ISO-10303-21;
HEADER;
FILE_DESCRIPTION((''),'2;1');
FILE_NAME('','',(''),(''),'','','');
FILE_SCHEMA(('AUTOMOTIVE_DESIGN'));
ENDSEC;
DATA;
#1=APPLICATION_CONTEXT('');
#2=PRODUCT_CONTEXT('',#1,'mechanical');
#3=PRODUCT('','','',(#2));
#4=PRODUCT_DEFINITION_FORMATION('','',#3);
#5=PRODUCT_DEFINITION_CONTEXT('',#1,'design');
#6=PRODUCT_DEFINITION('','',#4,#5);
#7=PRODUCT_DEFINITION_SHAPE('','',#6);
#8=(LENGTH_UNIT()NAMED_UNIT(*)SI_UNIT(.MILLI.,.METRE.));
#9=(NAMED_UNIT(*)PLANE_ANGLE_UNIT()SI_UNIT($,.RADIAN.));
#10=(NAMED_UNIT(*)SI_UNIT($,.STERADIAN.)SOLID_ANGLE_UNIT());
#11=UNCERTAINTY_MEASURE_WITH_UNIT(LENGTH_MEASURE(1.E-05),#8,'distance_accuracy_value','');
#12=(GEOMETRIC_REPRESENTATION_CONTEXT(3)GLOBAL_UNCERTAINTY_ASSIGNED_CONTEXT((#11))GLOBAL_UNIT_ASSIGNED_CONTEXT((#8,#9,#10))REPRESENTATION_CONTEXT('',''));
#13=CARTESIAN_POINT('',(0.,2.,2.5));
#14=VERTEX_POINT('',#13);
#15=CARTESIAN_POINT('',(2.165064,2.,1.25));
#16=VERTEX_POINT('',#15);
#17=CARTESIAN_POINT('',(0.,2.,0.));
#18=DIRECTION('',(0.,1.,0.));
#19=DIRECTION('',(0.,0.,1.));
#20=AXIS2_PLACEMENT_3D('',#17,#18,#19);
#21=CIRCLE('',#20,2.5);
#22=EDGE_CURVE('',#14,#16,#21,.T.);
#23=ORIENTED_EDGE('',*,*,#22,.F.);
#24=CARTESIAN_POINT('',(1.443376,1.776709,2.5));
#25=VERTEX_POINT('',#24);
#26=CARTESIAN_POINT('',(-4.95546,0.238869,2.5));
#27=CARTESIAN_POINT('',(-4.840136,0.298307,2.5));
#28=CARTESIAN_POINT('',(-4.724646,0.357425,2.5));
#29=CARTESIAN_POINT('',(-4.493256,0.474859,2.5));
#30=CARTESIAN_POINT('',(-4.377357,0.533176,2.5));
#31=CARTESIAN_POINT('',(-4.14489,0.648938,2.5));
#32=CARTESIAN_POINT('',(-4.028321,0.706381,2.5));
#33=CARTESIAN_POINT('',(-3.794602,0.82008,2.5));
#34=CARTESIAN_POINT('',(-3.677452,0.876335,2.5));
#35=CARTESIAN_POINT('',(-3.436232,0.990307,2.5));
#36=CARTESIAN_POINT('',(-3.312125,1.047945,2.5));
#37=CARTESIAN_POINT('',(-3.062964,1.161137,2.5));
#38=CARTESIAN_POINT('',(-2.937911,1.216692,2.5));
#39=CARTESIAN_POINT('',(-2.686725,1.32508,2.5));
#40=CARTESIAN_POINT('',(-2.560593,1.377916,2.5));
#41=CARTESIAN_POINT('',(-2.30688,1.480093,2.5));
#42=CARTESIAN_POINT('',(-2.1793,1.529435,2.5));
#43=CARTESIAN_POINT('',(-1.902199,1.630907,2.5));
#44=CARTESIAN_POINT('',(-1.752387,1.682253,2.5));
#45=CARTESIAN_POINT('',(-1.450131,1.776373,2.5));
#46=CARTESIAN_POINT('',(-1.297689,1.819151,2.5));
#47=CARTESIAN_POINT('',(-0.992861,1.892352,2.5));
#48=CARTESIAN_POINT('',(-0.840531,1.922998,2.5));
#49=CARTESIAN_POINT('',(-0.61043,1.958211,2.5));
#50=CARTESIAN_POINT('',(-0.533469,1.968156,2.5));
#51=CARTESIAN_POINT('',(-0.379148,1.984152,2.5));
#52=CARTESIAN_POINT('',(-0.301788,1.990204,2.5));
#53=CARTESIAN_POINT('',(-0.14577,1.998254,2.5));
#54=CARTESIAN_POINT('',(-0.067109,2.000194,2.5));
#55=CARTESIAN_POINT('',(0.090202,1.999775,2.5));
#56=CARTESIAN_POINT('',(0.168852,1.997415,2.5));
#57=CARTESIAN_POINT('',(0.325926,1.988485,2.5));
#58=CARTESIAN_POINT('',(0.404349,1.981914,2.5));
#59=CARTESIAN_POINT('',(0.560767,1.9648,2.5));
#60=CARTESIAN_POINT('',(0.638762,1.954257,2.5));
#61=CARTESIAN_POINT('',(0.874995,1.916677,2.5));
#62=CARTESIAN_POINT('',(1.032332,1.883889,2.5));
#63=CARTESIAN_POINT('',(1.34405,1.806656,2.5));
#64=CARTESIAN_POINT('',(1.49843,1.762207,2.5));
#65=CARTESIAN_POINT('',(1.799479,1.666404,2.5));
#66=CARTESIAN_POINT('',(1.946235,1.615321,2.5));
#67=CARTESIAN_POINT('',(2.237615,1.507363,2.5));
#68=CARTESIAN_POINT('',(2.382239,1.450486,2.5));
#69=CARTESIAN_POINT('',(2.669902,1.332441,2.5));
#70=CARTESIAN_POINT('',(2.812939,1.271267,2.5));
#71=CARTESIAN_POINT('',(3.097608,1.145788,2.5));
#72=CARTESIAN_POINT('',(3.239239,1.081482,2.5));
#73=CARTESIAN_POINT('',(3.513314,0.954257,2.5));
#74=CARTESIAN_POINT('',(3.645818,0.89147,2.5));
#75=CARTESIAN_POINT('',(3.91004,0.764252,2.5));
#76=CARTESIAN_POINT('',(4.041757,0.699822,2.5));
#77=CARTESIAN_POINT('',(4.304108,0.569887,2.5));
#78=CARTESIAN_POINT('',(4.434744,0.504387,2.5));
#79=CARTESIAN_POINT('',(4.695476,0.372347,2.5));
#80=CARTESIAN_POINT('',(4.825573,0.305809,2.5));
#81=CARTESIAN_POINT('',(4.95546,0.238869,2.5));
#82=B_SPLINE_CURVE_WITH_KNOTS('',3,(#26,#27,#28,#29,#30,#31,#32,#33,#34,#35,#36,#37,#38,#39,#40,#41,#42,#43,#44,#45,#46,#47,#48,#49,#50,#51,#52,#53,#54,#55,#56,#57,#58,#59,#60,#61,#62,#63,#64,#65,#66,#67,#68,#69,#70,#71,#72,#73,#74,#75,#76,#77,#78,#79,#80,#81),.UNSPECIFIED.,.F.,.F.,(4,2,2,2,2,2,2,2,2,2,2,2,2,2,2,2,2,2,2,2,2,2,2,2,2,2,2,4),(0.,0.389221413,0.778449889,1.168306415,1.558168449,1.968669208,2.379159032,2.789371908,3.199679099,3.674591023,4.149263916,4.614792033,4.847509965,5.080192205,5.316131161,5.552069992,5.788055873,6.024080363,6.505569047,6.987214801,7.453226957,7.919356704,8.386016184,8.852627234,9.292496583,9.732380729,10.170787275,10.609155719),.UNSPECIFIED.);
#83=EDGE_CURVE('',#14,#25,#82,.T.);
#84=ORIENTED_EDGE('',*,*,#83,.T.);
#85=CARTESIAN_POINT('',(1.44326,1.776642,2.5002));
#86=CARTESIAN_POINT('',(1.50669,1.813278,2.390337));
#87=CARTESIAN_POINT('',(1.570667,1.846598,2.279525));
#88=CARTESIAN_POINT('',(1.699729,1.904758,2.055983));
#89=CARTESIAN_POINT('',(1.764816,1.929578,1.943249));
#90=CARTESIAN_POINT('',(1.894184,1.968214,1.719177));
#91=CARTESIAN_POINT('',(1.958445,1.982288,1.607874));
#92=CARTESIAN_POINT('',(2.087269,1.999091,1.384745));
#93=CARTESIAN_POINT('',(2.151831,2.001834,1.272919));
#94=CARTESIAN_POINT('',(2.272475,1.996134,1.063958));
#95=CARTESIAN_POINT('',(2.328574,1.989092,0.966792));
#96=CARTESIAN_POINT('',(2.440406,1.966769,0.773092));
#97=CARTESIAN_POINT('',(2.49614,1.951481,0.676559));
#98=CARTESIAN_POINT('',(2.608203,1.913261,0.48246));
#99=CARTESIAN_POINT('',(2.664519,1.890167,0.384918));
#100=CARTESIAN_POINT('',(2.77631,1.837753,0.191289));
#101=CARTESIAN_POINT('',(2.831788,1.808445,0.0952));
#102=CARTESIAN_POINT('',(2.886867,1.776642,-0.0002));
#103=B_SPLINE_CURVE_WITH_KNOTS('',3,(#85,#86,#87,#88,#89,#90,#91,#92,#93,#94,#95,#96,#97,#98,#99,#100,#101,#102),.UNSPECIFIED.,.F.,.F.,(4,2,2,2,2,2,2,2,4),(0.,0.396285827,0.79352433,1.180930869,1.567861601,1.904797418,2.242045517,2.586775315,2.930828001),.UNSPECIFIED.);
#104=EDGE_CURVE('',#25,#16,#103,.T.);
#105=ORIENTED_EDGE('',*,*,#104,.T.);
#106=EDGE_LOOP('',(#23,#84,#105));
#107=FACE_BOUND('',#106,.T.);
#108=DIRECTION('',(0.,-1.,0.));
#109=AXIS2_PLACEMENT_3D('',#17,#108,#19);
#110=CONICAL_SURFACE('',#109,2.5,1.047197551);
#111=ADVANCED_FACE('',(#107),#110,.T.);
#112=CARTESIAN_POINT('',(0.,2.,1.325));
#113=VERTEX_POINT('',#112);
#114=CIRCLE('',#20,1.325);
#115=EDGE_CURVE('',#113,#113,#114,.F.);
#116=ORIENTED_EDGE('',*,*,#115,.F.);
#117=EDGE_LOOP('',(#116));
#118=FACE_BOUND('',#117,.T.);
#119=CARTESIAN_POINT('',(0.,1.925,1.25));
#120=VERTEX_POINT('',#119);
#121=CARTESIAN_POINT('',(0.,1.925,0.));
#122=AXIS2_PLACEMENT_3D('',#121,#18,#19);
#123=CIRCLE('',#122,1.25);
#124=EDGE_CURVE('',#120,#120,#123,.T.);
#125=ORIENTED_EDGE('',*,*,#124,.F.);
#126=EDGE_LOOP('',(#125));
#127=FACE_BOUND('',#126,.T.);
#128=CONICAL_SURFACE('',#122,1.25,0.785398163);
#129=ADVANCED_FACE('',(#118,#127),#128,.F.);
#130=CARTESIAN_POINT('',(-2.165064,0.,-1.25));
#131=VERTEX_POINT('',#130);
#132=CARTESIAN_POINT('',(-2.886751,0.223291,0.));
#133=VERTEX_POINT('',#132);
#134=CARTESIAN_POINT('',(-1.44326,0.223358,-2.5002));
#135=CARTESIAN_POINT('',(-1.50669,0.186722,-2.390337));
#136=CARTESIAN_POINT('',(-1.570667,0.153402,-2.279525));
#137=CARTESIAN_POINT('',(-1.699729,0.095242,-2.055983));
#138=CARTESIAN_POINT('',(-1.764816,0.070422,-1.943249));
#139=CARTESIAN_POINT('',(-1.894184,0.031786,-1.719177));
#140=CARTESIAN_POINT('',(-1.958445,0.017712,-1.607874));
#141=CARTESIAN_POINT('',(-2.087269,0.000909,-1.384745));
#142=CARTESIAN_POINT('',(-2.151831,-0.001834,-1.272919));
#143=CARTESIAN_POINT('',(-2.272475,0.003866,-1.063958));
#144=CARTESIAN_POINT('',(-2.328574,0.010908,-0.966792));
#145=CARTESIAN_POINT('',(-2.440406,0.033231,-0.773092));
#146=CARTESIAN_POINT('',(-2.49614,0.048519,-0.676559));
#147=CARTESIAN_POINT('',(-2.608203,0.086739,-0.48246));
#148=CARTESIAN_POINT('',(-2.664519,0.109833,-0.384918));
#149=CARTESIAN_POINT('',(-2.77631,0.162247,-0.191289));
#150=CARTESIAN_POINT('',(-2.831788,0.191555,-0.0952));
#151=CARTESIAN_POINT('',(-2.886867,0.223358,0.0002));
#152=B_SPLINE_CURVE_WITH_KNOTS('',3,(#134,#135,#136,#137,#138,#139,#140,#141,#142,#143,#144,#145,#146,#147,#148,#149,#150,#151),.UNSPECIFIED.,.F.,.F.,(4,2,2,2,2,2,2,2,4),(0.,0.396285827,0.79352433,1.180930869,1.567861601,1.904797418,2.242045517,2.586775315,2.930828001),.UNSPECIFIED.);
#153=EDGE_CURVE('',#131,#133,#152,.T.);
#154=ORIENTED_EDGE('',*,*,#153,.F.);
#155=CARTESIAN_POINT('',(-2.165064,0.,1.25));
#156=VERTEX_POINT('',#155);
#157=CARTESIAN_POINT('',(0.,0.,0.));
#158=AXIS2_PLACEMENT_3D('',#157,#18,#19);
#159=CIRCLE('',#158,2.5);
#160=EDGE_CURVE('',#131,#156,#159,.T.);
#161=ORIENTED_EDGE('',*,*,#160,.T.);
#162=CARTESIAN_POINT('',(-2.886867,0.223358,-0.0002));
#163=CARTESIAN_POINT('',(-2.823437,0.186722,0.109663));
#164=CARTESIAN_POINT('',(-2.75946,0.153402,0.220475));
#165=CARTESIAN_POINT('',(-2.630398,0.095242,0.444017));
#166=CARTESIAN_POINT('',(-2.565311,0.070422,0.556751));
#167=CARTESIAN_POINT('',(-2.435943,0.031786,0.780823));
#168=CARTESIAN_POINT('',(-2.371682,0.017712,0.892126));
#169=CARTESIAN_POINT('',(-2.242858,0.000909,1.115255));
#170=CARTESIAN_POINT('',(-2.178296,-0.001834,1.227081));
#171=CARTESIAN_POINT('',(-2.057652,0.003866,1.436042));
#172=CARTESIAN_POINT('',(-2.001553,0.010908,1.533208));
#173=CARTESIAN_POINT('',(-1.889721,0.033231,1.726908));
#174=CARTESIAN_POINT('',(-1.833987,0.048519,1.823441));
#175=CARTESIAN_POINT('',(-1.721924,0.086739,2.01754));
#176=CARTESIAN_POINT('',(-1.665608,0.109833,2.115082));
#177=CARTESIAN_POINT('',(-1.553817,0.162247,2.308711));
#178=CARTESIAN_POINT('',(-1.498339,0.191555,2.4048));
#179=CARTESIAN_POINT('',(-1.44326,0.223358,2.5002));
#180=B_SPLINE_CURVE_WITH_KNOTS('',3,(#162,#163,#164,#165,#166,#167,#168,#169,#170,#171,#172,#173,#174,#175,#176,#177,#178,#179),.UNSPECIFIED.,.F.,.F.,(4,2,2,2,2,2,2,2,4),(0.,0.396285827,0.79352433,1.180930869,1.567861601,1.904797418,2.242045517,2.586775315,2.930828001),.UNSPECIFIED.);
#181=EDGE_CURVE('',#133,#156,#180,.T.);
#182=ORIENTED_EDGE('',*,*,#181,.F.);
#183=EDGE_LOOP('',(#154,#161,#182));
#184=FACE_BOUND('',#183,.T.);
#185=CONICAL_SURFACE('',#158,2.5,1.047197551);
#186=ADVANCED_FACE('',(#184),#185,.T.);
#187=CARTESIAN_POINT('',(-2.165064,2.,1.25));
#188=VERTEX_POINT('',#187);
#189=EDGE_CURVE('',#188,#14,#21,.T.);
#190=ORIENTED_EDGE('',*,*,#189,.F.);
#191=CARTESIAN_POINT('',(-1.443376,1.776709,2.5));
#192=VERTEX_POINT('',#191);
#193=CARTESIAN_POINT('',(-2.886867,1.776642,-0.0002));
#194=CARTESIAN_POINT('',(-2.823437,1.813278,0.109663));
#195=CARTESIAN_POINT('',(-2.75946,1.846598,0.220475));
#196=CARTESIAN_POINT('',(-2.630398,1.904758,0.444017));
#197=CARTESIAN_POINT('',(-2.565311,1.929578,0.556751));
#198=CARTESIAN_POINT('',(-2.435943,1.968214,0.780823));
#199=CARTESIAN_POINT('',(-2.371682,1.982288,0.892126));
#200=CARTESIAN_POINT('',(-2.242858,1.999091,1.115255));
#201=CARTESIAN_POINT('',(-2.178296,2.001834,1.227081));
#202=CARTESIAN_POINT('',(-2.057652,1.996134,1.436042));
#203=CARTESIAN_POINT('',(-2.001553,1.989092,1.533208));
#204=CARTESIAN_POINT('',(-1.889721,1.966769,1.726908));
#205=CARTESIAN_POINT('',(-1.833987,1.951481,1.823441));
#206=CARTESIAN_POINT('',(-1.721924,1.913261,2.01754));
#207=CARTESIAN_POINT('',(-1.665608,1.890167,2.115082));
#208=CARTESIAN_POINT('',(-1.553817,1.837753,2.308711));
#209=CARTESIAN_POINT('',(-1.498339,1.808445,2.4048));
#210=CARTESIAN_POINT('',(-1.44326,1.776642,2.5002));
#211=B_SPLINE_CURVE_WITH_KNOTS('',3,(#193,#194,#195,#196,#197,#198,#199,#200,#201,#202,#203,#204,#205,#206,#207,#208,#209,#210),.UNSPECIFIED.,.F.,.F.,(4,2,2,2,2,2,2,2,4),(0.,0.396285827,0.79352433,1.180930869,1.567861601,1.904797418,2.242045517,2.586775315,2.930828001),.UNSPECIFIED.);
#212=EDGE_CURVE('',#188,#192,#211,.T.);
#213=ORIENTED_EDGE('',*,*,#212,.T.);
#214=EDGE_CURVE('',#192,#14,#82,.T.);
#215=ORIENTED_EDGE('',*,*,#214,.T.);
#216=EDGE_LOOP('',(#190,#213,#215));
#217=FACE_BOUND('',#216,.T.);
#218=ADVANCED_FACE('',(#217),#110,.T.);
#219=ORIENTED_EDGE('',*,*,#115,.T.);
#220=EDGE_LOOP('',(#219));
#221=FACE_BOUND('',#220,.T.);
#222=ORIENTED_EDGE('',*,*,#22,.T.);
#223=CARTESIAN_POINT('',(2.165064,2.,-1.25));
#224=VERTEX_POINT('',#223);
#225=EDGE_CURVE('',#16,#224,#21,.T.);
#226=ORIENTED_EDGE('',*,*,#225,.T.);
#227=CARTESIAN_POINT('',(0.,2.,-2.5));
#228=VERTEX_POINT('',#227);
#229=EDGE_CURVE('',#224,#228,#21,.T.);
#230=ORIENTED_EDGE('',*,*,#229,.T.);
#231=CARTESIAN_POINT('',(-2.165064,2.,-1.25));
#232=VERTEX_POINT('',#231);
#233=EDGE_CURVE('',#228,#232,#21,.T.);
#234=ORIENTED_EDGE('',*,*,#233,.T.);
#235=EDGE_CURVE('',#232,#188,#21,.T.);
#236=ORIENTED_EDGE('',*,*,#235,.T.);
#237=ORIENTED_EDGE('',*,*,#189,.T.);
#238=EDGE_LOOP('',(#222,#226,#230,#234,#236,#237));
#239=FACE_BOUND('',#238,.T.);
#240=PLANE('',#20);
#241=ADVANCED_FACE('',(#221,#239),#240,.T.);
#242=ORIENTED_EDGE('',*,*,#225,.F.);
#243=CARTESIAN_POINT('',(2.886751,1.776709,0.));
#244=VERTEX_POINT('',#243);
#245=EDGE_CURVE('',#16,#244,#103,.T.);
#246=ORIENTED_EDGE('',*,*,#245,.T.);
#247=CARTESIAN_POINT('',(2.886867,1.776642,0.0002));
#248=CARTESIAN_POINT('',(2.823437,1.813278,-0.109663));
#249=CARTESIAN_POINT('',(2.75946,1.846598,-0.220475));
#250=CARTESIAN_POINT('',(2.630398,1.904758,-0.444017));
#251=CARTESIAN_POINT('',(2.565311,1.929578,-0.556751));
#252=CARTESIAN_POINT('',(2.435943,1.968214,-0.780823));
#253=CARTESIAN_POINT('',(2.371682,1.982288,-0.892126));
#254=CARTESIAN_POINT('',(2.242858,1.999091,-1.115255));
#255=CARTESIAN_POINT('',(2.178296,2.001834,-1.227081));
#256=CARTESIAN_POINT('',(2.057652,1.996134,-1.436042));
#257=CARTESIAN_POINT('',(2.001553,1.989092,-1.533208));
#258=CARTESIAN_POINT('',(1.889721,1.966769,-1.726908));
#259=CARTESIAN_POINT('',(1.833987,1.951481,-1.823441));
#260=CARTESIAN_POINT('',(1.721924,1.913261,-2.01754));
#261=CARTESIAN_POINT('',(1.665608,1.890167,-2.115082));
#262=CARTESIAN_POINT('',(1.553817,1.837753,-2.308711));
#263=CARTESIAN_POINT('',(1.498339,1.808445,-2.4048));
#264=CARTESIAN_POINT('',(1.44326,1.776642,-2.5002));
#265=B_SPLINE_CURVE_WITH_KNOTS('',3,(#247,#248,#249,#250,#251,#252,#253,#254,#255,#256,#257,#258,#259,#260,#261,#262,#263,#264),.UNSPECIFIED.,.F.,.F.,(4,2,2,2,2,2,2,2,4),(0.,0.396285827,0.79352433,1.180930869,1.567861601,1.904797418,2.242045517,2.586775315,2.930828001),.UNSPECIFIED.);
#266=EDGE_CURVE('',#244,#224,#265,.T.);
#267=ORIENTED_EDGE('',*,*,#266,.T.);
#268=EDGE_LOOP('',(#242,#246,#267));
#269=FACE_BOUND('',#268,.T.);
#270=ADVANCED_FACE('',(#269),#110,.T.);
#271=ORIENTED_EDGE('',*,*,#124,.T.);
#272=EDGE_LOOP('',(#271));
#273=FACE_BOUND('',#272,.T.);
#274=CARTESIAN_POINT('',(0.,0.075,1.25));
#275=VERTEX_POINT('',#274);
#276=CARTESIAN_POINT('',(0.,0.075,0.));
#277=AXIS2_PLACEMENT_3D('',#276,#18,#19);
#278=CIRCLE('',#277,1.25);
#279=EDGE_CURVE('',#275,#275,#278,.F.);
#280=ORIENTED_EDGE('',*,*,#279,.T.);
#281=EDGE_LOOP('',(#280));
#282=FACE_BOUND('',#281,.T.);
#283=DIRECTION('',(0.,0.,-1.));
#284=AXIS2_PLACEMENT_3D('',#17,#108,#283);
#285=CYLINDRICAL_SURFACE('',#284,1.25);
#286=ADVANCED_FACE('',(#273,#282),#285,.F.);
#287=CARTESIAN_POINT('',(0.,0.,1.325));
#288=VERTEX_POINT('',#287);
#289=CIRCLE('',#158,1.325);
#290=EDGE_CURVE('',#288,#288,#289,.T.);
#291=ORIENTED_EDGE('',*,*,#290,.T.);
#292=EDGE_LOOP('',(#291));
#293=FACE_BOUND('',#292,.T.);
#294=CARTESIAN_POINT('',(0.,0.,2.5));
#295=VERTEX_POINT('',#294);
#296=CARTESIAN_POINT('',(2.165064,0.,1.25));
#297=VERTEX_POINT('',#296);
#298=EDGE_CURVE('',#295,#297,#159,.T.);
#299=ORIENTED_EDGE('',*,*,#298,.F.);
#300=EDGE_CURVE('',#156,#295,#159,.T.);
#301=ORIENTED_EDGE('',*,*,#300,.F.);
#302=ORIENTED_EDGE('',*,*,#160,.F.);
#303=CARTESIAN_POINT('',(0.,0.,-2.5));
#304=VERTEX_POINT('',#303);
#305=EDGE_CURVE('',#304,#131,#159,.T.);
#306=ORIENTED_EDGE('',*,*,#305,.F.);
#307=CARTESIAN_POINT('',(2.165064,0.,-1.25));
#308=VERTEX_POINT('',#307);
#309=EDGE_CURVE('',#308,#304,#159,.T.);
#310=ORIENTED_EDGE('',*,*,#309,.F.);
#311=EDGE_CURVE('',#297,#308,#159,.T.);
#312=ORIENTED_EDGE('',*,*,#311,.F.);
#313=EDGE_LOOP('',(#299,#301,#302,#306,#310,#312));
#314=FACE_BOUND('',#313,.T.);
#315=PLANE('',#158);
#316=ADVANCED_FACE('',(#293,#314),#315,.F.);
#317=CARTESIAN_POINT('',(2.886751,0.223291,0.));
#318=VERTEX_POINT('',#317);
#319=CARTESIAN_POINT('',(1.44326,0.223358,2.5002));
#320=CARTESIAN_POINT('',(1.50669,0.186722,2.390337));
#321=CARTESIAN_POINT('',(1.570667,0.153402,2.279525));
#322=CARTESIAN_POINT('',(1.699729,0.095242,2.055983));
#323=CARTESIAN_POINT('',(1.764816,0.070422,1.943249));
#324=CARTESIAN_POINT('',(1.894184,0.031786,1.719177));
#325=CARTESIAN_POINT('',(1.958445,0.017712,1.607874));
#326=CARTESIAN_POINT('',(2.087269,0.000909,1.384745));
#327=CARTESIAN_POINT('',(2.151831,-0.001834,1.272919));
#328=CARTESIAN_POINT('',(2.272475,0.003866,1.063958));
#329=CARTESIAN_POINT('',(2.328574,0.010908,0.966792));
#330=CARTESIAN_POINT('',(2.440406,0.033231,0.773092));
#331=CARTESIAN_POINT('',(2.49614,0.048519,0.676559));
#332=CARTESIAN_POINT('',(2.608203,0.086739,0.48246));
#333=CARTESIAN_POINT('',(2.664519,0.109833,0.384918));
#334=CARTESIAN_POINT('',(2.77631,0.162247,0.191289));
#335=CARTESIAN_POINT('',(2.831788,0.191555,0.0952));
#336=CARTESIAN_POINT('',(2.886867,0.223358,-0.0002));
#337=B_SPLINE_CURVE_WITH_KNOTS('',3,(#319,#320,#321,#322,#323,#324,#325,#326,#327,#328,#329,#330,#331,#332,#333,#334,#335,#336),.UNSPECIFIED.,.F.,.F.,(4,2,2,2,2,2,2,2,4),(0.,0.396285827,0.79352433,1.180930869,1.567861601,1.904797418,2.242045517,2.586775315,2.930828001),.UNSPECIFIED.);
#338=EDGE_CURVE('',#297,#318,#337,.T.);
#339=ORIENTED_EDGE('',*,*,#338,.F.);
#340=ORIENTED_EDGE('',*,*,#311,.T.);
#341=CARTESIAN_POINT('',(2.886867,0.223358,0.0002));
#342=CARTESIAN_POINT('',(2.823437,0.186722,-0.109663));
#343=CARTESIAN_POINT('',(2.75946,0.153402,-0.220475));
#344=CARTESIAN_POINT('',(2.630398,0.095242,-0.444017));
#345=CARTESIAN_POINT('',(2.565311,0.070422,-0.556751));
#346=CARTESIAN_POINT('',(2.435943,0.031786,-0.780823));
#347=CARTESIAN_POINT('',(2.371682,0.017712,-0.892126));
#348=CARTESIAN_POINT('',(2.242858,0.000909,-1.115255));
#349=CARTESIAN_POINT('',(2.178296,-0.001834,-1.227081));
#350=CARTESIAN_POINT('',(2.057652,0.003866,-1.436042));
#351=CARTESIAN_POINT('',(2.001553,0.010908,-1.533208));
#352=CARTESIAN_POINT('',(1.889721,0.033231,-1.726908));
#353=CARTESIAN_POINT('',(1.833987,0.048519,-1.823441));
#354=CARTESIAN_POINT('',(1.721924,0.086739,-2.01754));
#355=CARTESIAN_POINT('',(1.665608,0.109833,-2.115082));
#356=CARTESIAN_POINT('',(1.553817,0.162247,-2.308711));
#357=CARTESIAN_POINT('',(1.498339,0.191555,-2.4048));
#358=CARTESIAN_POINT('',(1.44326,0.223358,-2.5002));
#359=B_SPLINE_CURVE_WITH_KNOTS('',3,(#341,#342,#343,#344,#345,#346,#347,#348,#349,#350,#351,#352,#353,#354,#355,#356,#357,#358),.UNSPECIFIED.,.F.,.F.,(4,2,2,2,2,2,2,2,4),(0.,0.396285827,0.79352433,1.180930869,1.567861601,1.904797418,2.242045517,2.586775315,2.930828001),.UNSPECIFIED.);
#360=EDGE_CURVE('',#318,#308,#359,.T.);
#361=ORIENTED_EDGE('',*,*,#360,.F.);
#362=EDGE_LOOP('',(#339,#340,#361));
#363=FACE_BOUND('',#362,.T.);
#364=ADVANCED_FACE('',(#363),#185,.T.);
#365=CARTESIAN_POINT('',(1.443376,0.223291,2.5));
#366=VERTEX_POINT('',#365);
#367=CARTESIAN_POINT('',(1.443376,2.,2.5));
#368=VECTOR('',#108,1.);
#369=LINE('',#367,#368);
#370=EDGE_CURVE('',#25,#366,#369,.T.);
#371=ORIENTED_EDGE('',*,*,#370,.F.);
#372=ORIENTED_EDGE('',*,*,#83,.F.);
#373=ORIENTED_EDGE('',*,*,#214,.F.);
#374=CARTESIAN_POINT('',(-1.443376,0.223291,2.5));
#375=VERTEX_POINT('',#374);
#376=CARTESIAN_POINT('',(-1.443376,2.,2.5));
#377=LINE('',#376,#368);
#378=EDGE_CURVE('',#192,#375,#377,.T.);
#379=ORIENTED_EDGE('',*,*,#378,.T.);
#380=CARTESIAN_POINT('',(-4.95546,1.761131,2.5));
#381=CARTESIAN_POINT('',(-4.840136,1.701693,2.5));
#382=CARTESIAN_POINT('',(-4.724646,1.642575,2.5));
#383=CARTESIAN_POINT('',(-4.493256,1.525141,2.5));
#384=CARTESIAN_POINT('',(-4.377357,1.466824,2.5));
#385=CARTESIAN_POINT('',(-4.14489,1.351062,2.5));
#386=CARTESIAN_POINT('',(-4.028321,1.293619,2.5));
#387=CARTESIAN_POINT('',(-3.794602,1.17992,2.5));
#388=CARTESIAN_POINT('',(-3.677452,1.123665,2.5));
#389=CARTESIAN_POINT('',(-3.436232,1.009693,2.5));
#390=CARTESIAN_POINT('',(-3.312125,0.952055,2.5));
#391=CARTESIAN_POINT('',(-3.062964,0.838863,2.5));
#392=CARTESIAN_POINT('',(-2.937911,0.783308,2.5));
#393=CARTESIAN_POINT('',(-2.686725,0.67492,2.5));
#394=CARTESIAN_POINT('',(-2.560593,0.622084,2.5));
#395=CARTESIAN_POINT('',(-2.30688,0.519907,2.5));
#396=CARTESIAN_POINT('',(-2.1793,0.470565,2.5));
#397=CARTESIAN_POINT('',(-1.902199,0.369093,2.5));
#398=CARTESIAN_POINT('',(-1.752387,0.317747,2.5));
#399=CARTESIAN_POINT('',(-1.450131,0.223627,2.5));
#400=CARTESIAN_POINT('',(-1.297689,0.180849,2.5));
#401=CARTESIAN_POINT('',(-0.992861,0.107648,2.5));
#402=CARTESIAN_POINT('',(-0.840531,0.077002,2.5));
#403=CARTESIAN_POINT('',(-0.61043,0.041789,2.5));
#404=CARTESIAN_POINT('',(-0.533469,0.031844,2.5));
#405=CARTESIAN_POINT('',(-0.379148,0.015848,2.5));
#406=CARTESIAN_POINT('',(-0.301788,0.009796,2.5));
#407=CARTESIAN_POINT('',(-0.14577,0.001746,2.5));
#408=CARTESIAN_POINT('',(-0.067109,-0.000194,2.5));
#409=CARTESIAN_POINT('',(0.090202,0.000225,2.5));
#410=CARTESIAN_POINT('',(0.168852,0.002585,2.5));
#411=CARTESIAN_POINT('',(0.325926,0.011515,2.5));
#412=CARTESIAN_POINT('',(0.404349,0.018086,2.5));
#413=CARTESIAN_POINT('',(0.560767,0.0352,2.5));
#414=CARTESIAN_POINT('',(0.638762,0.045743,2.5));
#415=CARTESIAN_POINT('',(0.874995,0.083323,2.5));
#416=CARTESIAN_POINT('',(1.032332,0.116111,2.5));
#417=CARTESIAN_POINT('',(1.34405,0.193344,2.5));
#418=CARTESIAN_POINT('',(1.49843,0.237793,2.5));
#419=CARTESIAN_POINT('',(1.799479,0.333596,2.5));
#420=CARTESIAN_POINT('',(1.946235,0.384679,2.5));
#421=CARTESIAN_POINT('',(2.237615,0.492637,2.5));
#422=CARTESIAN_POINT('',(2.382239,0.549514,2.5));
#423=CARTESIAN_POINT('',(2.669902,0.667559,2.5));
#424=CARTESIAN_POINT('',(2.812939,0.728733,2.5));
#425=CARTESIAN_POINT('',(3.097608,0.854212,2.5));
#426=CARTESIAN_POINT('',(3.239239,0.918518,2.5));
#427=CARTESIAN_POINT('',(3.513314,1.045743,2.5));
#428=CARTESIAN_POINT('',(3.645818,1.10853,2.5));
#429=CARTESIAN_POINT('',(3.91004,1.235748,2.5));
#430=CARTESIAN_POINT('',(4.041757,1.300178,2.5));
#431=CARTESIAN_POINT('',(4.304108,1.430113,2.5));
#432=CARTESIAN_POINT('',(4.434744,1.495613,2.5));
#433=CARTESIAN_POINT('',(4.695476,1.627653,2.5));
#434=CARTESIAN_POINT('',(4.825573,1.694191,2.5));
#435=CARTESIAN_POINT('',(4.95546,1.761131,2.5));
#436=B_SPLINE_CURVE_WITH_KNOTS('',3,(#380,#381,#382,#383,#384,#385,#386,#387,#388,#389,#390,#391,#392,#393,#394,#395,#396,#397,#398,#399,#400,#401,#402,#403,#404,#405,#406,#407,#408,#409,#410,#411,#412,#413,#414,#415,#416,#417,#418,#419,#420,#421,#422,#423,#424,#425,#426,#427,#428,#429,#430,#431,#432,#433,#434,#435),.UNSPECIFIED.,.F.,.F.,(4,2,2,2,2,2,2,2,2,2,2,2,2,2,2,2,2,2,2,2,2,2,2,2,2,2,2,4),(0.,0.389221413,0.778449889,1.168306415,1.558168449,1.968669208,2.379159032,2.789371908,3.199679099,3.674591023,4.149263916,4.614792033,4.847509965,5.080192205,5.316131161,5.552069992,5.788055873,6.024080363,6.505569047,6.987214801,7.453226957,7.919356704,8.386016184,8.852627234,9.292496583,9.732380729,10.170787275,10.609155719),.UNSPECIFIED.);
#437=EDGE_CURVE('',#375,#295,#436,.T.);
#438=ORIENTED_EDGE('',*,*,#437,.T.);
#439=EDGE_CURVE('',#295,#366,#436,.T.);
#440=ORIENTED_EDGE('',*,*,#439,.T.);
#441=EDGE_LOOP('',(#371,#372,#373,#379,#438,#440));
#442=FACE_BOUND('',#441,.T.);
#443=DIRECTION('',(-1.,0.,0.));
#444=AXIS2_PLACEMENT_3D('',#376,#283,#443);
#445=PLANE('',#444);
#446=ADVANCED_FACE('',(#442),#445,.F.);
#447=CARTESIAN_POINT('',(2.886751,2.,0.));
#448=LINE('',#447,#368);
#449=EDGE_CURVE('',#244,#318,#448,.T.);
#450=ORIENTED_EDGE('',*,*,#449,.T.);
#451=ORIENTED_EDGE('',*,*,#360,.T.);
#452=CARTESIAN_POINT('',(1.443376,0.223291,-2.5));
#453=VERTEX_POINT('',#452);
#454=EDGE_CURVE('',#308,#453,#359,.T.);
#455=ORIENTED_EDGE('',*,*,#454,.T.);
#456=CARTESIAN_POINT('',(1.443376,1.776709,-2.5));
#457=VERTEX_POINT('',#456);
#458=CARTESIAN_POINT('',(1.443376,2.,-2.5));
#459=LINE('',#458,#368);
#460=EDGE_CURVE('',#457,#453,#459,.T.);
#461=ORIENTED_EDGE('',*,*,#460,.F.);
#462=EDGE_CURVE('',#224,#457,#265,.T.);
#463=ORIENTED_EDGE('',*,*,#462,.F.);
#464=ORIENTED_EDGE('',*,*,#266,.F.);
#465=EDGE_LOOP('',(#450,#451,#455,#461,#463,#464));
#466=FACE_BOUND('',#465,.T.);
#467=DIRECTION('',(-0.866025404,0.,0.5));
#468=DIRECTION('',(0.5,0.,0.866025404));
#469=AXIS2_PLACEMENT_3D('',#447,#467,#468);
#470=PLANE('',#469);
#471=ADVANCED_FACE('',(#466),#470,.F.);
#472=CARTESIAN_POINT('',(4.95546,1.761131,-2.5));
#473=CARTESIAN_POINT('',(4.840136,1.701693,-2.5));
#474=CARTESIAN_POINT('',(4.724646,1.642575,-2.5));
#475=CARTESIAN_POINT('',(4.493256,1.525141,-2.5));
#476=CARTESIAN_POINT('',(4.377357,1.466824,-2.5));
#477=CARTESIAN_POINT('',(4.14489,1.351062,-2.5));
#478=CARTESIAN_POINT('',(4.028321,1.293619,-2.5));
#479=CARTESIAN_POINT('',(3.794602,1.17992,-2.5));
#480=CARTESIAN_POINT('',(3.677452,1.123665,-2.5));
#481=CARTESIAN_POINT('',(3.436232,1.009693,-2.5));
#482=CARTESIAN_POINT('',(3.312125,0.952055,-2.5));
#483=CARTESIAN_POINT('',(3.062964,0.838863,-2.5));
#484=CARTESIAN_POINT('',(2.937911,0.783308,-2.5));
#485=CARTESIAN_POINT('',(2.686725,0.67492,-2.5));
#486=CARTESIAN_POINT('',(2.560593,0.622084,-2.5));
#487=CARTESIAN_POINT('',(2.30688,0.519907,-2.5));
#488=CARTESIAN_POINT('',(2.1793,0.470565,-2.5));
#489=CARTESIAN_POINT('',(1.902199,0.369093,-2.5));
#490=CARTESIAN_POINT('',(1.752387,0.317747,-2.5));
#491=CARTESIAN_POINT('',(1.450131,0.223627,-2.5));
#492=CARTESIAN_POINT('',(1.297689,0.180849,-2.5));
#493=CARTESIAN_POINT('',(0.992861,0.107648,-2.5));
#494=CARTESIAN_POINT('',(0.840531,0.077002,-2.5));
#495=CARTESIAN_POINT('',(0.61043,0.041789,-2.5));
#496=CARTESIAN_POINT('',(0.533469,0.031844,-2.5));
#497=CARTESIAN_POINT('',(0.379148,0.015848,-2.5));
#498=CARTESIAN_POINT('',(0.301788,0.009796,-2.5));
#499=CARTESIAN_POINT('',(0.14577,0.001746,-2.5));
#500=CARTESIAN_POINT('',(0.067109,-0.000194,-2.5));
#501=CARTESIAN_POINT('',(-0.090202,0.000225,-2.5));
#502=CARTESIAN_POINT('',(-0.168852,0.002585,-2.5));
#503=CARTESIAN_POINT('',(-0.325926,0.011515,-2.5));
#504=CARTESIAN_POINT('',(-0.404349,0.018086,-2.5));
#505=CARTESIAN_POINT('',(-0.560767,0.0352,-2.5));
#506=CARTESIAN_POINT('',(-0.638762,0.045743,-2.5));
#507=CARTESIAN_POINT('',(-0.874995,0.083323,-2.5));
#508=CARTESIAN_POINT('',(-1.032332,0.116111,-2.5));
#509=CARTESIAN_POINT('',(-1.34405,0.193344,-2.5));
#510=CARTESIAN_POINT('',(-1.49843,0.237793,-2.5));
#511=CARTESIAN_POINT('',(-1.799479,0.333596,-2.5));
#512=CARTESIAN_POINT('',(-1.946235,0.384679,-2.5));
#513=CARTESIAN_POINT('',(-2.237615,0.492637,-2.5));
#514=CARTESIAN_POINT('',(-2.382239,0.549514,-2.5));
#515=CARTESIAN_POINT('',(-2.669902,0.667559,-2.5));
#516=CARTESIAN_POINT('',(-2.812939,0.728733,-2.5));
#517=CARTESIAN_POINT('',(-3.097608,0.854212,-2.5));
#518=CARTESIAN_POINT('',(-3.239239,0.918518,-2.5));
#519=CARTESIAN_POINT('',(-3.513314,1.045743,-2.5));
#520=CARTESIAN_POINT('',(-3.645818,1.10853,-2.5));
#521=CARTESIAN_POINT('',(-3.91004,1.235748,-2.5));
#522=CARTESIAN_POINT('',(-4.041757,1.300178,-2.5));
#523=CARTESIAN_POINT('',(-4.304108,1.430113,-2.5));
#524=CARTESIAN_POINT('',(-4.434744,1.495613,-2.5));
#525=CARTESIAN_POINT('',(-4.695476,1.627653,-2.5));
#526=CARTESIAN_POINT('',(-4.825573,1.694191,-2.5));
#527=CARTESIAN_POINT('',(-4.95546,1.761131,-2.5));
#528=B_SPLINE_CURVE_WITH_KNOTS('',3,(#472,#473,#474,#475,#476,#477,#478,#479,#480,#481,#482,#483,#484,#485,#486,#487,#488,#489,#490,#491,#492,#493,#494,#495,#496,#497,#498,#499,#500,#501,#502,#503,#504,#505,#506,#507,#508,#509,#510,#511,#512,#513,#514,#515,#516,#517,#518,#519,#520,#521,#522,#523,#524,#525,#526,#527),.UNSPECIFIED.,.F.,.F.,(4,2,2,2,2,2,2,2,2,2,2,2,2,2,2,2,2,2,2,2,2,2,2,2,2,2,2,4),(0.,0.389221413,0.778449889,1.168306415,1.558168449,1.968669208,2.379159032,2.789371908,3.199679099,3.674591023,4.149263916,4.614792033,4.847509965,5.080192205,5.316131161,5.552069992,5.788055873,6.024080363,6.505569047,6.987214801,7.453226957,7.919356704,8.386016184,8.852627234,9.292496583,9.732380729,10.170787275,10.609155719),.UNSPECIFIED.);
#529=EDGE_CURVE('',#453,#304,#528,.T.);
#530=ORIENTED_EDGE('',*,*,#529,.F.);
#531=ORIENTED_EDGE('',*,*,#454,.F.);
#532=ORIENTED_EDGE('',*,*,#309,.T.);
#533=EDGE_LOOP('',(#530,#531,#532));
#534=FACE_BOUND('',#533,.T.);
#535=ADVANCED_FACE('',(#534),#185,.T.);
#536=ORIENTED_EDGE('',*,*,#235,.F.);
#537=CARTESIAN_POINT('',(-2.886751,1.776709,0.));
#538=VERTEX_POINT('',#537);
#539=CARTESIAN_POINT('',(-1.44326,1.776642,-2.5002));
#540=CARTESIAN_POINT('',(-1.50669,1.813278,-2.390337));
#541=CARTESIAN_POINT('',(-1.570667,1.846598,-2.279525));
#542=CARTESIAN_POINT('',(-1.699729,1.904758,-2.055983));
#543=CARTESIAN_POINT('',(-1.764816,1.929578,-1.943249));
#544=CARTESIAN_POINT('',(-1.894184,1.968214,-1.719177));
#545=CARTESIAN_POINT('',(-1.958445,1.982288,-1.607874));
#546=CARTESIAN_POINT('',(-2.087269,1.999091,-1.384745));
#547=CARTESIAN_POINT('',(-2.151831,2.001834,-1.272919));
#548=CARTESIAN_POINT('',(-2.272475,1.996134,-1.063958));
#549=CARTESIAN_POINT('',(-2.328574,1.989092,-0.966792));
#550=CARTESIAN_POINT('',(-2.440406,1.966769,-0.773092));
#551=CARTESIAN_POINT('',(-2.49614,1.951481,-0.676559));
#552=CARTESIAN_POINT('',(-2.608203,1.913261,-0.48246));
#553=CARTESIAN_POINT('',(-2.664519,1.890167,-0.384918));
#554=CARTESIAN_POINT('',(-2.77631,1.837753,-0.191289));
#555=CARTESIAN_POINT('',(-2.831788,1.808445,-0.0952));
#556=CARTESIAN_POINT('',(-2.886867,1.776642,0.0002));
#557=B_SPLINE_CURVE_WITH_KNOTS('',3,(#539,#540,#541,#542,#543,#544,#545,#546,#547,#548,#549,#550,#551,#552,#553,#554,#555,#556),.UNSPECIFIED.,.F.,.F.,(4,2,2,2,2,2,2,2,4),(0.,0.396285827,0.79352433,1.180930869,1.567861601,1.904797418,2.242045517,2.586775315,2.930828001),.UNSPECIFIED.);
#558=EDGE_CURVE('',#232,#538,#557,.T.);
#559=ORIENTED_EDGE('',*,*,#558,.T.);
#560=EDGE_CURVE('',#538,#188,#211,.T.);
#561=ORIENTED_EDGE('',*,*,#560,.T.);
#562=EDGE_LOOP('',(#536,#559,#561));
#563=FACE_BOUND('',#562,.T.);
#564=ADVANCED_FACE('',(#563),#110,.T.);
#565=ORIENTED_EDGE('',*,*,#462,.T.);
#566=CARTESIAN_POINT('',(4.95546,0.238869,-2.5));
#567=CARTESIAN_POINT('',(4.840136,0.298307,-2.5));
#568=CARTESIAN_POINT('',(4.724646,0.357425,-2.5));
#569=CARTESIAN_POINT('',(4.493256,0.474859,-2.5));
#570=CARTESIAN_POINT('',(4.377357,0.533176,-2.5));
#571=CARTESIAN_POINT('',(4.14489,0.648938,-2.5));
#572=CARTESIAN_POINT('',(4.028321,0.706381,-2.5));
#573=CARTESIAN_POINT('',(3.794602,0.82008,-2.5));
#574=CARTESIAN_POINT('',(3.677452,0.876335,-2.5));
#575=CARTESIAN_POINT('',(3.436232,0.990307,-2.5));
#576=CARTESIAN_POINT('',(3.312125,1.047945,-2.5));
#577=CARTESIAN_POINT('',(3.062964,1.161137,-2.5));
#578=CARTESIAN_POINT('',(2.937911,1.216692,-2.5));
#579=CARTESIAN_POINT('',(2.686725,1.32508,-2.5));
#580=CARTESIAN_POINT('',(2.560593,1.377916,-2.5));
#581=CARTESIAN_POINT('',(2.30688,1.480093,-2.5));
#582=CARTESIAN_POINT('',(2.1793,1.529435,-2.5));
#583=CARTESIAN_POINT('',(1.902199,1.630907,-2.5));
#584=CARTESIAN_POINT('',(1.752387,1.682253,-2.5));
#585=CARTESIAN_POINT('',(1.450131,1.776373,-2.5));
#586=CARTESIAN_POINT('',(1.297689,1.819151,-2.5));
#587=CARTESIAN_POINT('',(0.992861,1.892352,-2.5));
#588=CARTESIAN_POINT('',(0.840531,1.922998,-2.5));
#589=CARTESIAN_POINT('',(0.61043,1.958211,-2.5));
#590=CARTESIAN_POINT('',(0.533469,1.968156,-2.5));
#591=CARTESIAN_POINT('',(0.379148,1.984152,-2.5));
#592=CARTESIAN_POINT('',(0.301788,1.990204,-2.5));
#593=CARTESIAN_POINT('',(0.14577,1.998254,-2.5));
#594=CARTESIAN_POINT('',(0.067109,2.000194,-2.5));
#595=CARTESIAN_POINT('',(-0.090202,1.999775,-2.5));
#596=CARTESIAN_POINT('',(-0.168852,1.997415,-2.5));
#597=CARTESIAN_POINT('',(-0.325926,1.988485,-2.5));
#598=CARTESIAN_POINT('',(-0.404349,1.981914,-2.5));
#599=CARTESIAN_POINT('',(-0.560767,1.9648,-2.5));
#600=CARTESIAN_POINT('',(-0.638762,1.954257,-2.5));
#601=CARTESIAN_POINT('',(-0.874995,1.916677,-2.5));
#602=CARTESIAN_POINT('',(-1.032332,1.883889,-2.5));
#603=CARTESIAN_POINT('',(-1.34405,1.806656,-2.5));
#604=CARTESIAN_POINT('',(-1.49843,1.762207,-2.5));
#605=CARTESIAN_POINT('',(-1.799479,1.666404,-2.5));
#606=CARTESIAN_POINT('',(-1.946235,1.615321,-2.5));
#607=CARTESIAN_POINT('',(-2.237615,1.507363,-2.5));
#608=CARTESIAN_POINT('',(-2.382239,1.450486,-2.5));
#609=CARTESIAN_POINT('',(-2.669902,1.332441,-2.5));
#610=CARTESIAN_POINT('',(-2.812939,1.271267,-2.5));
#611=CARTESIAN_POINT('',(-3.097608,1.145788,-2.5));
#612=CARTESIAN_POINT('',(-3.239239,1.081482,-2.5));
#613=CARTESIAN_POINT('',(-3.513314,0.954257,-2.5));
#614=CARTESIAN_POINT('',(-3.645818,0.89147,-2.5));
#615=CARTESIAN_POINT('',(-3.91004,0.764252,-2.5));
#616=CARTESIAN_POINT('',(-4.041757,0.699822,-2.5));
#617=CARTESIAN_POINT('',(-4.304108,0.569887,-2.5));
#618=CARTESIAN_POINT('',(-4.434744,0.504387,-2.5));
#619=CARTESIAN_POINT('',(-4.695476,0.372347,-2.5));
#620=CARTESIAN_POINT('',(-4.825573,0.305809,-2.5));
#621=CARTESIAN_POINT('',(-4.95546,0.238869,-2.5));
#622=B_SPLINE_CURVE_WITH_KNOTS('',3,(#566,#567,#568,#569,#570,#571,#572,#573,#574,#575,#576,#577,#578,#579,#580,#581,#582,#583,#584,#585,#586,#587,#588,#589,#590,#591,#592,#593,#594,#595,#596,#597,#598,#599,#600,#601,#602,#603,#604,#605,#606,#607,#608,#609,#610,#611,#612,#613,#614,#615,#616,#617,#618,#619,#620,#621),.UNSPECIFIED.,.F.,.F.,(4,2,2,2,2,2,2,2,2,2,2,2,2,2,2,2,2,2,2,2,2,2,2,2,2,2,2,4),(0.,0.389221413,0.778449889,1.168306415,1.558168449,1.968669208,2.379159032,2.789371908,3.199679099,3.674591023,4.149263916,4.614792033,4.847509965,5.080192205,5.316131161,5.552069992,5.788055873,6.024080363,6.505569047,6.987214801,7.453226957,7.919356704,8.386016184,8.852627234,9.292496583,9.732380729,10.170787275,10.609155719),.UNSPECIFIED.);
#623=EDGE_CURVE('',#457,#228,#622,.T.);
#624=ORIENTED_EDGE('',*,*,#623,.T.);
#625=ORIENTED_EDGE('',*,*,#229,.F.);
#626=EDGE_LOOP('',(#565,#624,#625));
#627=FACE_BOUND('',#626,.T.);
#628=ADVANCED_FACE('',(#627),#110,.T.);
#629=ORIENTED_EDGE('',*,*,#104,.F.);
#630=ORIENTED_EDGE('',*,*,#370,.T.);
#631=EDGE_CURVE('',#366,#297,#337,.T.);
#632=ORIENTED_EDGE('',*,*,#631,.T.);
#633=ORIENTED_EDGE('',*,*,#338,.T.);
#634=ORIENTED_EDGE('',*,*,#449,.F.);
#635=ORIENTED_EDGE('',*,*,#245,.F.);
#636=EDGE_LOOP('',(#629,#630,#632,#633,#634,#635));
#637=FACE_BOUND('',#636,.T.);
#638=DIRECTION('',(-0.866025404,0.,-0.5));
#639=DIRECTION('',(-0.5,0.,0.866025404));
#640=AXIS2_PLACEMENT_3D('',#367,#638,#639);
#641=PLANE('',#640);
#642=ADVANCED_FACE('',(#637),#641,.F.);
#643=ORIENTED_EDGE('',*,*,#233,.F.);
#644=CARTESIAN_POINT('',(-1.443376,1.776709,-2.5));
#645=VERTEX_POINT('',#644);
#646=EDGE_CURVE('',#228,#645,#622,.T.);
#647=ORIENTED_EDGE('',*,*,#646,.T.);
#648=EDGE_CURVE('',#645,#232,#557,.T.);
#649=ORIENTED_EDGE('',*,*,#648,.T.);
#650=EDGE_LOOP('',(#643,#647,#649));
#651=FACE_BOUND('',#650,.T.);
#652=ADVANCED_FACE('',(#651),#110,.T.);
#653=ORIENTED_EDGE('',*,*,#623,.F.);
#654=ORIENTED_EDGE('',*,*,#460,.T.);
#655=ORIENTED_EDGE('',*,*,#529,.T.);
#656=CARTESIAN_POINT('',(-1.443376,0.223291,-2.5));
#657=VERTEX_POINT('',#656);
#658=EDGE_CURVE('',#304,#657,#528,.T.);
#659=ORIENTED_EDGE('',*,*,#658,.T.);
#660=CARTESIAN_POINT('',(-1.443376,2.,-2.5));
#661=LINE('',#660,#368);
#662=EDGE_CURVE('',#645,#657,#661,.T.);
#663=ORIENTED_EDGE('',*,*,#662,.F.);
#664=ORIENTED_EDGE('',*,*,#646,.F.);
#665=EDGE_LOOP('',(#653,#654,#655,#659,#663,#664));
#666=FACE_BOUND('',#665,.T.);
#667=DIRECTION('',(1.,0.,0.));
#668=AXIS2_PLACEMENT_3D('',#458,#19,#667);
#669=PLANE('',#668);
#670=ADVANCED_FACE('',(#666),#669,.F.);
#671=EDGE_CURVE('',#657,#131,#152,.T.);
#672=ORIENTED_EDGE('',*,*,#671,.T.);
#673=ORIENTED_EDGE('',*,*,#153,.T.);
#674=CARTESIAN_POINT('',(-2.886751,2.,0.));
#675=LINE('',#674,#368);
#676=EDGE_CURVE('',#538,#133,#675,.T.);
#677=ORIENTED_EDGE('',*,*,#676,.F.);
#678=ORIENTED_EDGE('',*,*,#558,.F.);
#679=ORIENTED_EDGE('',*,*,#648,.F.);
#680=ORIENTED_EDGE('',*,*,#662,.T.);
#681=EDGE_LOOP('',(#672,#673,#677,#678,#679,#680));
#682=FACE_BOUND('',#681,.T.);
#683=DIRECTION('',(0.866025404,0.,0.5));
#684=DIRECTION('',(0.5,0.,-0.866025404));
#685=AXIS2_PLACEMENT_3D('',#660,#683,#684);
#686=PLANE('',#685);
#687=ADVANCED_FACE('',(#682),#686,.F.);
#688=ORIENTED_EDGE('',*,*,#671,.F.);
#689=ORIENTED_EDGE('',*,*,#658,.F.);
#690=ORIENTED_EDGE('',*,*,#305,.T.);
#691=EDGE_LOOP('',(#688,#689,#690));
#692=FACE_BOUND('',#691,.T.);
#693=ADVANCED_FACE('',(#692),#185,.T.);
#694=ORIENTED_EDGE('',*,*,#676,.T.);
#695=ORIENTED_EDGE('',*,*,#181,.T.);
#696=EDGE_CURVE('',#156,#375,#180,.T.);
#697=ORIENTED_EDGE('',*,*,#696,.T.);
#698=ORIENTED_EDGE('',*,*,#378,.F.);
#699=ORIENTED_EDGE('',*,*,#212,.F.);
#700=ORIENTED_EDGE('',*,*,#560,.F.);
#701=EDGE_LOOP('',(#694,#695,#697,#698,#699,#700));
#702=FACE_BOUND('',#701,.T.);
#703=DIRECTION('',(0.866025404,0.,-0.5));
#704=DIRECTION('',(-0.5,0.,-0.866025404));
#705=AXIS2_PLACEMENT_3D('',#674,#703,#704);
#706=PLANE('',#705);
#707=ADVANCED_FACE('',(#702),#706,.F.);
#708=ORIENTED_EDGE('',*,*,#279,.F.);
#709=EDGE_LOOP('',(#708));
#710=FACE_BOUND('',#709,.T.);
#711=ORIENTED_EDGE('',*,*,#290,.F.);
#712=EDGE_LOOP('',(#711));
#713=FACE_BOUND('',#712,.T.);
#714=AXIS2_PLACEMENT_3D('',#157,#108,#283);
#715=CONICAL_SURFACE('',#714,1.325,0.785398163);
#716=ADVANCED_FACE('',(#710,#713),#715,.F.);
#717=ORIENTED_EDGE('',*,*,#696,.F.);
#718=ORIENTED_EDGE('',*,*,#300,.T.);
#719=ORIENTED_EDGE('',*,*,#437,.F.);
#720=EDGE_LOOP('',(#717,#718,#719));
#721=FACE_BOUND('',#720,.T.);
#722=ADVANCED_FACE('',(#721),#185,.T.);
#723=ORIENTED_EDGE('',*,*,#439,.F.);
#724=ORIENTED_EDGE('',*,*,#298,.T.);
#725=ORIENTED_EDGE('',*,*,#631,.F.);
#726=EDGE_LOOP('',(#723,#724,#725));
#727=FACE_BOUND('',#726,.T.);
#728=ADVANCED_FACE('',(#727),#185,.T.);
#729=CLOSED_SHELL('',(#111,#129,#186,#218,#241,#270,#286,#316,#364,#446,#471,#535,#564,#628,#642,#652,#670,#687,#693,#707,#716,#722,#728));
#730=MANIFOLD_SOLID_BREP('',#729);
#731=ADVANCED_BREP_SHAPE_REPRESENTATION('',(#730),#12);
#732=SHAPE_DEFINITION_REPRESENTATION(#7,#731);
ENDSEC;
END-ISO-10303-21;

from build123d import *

# Parameters (mm, degrees)
SKETCH2_R           = 1.25
BOSS_EXTRUDE1_DEPTH = 2
SKETCH3_OUTSIDE_W   = 20.612
SKETCH3_OUTSIDE_H   = 19.838
SKETCH3_OUTSIDE_R   = 2.5
CUT_EXTRUDE1_DEPTH  = 3.25
CUT_EXTRUDE1_DRAFT  = 60
SKETCH4_OUTSIDE_W   = 20.612
SKETCH4_OUTSIDE_H   = 19.838
SKETCH4_OUTSIDE_R   = 2.5
CUT_EXTRUDE2_DEPTH  = 3.25
CUT_EXTRUDE2_DRAFT  = -60
CHAMFER1_SIZE       = 0.075


with BuildPart() as part:
    # Sketch2 → Boss-Extrude1 (new body)
    with BuildSketch(Plane(origin=(0, 0, 0), x_dir=(1, 0, 0), z_dir=(0, 1, 0))):
        Polygon((2.886751346, 0), (1.443375673, 2.5), (-1.443375673, 2.5), (-2.886751346, 0), (-1.443375673, -2.5), (1.443375673, -2.5), align=None)
        with Locations(Location((0, 0, 0), (0, 0, 270))):
            Circle(SKETCH2_R, mode=Mode.SUBTRACT)
    extrude(amount=BOSS_EXTRUDE1_DEPTH)


with BuildPart() as cut_extrude1_tool:
    # Sketch3 outside → Cut-Extrude1 (with draft: the straight prism first)
    with BuildSketch(Plane(origin=(0, 0, 0), x_dir=(1, 0, 0), z_dir=(0, 1, 0))):
        Rectangle(SKETCH3_OUTSIDE_W, SKETCH3_OUTSIDE_H)
        Circle(SKETCH3_OUTSIDE_R, mode=Mode.SUBTRACT)
    extrude(amount=CUT_EXTRUDE1_DEPTH)
    # Cut-Extrude1: the draft: its side faces are tilted about the plane it starts from
    cut_extrude1_sides = [cut_extrude1_tool.faces().sort_by_distance(p)[0] for p in [
        (0, 1.625, 9.919),
        (10.306, 1.625, 0),
        (0, 1.625, -9.919),
        (-10.306, 1.625, 0),
        (-2.5, 1.625, 0),
    ]]
    draft(cut_extrude1_sides, Plane(origin=(0, 0, 0), x_dir=(1, 0, 0), z_dir=(0, 1, 0)), CUT_EXTRUDE1_DRAFT)


with BuildPart() as part_1:
    add(part.part)

    # Cut-Extrude1: cut by cut_extrude1_tool
    add(cut_extrude1_tool.part, mode=Mode.SUBTRACT)


with BuildPart() as cut_extrude2_tool:
    # Sketch4 outside → Cut-Extrude2 (with draft: the straight prism first)
    with BuildSketch(Plane(origin=(0, 2, 0), x_dir=(1, 0, 0), z_dir=(0, 1, 0))):
        Rectangle(SKETCH4_OUTSIDE_W, SKETCH4_OUTSIDE_H)
        Circle(SKETCH4_OUTSIDE_R, mode=Mode.SUBTRACT)
    extrude(amount=-CUT_EXTRUDE2_DEPTH)
    # Cut-Extrude2: the draft: its side faces are tilted about the plane it starts from
    cut_extrude2_sides = [cut_extrude2_tool.faces().sort_by_distance(p)[0] for p in [
        (0, 0.375, 9.919),
        (10.306, 0.375, 0),
        (0, 0.375, -9.919),
        (-10.306, 0.375, 0),
        (-2.5, 0.375, 0),
    ]]
    draft(cut_extrude2_sides, Plane(origin=(0, 2, 0), x_dir=(1, 0, 0), z_dir=(0, 1, 0)), CUT_EXTRUDE2_DRAFT)


with BuildPart() as part_2:
    add(part_1.part)

    # Cut-Extrude2: cut by cut_extrude2_tool
    add(cut_extrude2_tool.part, mode=Mode.SUBTRACT)

    # Chamfer1
    chamfer1_edges = [part_2.edges().sort_by_distance(p)[0] for p in [
        (0, 0, -1.25),
        (0, 2, -1.25),
    ]]
    chamfer(chamfer1_edges, length=CHAMFER1_SIZE)


solid = part_2.part
